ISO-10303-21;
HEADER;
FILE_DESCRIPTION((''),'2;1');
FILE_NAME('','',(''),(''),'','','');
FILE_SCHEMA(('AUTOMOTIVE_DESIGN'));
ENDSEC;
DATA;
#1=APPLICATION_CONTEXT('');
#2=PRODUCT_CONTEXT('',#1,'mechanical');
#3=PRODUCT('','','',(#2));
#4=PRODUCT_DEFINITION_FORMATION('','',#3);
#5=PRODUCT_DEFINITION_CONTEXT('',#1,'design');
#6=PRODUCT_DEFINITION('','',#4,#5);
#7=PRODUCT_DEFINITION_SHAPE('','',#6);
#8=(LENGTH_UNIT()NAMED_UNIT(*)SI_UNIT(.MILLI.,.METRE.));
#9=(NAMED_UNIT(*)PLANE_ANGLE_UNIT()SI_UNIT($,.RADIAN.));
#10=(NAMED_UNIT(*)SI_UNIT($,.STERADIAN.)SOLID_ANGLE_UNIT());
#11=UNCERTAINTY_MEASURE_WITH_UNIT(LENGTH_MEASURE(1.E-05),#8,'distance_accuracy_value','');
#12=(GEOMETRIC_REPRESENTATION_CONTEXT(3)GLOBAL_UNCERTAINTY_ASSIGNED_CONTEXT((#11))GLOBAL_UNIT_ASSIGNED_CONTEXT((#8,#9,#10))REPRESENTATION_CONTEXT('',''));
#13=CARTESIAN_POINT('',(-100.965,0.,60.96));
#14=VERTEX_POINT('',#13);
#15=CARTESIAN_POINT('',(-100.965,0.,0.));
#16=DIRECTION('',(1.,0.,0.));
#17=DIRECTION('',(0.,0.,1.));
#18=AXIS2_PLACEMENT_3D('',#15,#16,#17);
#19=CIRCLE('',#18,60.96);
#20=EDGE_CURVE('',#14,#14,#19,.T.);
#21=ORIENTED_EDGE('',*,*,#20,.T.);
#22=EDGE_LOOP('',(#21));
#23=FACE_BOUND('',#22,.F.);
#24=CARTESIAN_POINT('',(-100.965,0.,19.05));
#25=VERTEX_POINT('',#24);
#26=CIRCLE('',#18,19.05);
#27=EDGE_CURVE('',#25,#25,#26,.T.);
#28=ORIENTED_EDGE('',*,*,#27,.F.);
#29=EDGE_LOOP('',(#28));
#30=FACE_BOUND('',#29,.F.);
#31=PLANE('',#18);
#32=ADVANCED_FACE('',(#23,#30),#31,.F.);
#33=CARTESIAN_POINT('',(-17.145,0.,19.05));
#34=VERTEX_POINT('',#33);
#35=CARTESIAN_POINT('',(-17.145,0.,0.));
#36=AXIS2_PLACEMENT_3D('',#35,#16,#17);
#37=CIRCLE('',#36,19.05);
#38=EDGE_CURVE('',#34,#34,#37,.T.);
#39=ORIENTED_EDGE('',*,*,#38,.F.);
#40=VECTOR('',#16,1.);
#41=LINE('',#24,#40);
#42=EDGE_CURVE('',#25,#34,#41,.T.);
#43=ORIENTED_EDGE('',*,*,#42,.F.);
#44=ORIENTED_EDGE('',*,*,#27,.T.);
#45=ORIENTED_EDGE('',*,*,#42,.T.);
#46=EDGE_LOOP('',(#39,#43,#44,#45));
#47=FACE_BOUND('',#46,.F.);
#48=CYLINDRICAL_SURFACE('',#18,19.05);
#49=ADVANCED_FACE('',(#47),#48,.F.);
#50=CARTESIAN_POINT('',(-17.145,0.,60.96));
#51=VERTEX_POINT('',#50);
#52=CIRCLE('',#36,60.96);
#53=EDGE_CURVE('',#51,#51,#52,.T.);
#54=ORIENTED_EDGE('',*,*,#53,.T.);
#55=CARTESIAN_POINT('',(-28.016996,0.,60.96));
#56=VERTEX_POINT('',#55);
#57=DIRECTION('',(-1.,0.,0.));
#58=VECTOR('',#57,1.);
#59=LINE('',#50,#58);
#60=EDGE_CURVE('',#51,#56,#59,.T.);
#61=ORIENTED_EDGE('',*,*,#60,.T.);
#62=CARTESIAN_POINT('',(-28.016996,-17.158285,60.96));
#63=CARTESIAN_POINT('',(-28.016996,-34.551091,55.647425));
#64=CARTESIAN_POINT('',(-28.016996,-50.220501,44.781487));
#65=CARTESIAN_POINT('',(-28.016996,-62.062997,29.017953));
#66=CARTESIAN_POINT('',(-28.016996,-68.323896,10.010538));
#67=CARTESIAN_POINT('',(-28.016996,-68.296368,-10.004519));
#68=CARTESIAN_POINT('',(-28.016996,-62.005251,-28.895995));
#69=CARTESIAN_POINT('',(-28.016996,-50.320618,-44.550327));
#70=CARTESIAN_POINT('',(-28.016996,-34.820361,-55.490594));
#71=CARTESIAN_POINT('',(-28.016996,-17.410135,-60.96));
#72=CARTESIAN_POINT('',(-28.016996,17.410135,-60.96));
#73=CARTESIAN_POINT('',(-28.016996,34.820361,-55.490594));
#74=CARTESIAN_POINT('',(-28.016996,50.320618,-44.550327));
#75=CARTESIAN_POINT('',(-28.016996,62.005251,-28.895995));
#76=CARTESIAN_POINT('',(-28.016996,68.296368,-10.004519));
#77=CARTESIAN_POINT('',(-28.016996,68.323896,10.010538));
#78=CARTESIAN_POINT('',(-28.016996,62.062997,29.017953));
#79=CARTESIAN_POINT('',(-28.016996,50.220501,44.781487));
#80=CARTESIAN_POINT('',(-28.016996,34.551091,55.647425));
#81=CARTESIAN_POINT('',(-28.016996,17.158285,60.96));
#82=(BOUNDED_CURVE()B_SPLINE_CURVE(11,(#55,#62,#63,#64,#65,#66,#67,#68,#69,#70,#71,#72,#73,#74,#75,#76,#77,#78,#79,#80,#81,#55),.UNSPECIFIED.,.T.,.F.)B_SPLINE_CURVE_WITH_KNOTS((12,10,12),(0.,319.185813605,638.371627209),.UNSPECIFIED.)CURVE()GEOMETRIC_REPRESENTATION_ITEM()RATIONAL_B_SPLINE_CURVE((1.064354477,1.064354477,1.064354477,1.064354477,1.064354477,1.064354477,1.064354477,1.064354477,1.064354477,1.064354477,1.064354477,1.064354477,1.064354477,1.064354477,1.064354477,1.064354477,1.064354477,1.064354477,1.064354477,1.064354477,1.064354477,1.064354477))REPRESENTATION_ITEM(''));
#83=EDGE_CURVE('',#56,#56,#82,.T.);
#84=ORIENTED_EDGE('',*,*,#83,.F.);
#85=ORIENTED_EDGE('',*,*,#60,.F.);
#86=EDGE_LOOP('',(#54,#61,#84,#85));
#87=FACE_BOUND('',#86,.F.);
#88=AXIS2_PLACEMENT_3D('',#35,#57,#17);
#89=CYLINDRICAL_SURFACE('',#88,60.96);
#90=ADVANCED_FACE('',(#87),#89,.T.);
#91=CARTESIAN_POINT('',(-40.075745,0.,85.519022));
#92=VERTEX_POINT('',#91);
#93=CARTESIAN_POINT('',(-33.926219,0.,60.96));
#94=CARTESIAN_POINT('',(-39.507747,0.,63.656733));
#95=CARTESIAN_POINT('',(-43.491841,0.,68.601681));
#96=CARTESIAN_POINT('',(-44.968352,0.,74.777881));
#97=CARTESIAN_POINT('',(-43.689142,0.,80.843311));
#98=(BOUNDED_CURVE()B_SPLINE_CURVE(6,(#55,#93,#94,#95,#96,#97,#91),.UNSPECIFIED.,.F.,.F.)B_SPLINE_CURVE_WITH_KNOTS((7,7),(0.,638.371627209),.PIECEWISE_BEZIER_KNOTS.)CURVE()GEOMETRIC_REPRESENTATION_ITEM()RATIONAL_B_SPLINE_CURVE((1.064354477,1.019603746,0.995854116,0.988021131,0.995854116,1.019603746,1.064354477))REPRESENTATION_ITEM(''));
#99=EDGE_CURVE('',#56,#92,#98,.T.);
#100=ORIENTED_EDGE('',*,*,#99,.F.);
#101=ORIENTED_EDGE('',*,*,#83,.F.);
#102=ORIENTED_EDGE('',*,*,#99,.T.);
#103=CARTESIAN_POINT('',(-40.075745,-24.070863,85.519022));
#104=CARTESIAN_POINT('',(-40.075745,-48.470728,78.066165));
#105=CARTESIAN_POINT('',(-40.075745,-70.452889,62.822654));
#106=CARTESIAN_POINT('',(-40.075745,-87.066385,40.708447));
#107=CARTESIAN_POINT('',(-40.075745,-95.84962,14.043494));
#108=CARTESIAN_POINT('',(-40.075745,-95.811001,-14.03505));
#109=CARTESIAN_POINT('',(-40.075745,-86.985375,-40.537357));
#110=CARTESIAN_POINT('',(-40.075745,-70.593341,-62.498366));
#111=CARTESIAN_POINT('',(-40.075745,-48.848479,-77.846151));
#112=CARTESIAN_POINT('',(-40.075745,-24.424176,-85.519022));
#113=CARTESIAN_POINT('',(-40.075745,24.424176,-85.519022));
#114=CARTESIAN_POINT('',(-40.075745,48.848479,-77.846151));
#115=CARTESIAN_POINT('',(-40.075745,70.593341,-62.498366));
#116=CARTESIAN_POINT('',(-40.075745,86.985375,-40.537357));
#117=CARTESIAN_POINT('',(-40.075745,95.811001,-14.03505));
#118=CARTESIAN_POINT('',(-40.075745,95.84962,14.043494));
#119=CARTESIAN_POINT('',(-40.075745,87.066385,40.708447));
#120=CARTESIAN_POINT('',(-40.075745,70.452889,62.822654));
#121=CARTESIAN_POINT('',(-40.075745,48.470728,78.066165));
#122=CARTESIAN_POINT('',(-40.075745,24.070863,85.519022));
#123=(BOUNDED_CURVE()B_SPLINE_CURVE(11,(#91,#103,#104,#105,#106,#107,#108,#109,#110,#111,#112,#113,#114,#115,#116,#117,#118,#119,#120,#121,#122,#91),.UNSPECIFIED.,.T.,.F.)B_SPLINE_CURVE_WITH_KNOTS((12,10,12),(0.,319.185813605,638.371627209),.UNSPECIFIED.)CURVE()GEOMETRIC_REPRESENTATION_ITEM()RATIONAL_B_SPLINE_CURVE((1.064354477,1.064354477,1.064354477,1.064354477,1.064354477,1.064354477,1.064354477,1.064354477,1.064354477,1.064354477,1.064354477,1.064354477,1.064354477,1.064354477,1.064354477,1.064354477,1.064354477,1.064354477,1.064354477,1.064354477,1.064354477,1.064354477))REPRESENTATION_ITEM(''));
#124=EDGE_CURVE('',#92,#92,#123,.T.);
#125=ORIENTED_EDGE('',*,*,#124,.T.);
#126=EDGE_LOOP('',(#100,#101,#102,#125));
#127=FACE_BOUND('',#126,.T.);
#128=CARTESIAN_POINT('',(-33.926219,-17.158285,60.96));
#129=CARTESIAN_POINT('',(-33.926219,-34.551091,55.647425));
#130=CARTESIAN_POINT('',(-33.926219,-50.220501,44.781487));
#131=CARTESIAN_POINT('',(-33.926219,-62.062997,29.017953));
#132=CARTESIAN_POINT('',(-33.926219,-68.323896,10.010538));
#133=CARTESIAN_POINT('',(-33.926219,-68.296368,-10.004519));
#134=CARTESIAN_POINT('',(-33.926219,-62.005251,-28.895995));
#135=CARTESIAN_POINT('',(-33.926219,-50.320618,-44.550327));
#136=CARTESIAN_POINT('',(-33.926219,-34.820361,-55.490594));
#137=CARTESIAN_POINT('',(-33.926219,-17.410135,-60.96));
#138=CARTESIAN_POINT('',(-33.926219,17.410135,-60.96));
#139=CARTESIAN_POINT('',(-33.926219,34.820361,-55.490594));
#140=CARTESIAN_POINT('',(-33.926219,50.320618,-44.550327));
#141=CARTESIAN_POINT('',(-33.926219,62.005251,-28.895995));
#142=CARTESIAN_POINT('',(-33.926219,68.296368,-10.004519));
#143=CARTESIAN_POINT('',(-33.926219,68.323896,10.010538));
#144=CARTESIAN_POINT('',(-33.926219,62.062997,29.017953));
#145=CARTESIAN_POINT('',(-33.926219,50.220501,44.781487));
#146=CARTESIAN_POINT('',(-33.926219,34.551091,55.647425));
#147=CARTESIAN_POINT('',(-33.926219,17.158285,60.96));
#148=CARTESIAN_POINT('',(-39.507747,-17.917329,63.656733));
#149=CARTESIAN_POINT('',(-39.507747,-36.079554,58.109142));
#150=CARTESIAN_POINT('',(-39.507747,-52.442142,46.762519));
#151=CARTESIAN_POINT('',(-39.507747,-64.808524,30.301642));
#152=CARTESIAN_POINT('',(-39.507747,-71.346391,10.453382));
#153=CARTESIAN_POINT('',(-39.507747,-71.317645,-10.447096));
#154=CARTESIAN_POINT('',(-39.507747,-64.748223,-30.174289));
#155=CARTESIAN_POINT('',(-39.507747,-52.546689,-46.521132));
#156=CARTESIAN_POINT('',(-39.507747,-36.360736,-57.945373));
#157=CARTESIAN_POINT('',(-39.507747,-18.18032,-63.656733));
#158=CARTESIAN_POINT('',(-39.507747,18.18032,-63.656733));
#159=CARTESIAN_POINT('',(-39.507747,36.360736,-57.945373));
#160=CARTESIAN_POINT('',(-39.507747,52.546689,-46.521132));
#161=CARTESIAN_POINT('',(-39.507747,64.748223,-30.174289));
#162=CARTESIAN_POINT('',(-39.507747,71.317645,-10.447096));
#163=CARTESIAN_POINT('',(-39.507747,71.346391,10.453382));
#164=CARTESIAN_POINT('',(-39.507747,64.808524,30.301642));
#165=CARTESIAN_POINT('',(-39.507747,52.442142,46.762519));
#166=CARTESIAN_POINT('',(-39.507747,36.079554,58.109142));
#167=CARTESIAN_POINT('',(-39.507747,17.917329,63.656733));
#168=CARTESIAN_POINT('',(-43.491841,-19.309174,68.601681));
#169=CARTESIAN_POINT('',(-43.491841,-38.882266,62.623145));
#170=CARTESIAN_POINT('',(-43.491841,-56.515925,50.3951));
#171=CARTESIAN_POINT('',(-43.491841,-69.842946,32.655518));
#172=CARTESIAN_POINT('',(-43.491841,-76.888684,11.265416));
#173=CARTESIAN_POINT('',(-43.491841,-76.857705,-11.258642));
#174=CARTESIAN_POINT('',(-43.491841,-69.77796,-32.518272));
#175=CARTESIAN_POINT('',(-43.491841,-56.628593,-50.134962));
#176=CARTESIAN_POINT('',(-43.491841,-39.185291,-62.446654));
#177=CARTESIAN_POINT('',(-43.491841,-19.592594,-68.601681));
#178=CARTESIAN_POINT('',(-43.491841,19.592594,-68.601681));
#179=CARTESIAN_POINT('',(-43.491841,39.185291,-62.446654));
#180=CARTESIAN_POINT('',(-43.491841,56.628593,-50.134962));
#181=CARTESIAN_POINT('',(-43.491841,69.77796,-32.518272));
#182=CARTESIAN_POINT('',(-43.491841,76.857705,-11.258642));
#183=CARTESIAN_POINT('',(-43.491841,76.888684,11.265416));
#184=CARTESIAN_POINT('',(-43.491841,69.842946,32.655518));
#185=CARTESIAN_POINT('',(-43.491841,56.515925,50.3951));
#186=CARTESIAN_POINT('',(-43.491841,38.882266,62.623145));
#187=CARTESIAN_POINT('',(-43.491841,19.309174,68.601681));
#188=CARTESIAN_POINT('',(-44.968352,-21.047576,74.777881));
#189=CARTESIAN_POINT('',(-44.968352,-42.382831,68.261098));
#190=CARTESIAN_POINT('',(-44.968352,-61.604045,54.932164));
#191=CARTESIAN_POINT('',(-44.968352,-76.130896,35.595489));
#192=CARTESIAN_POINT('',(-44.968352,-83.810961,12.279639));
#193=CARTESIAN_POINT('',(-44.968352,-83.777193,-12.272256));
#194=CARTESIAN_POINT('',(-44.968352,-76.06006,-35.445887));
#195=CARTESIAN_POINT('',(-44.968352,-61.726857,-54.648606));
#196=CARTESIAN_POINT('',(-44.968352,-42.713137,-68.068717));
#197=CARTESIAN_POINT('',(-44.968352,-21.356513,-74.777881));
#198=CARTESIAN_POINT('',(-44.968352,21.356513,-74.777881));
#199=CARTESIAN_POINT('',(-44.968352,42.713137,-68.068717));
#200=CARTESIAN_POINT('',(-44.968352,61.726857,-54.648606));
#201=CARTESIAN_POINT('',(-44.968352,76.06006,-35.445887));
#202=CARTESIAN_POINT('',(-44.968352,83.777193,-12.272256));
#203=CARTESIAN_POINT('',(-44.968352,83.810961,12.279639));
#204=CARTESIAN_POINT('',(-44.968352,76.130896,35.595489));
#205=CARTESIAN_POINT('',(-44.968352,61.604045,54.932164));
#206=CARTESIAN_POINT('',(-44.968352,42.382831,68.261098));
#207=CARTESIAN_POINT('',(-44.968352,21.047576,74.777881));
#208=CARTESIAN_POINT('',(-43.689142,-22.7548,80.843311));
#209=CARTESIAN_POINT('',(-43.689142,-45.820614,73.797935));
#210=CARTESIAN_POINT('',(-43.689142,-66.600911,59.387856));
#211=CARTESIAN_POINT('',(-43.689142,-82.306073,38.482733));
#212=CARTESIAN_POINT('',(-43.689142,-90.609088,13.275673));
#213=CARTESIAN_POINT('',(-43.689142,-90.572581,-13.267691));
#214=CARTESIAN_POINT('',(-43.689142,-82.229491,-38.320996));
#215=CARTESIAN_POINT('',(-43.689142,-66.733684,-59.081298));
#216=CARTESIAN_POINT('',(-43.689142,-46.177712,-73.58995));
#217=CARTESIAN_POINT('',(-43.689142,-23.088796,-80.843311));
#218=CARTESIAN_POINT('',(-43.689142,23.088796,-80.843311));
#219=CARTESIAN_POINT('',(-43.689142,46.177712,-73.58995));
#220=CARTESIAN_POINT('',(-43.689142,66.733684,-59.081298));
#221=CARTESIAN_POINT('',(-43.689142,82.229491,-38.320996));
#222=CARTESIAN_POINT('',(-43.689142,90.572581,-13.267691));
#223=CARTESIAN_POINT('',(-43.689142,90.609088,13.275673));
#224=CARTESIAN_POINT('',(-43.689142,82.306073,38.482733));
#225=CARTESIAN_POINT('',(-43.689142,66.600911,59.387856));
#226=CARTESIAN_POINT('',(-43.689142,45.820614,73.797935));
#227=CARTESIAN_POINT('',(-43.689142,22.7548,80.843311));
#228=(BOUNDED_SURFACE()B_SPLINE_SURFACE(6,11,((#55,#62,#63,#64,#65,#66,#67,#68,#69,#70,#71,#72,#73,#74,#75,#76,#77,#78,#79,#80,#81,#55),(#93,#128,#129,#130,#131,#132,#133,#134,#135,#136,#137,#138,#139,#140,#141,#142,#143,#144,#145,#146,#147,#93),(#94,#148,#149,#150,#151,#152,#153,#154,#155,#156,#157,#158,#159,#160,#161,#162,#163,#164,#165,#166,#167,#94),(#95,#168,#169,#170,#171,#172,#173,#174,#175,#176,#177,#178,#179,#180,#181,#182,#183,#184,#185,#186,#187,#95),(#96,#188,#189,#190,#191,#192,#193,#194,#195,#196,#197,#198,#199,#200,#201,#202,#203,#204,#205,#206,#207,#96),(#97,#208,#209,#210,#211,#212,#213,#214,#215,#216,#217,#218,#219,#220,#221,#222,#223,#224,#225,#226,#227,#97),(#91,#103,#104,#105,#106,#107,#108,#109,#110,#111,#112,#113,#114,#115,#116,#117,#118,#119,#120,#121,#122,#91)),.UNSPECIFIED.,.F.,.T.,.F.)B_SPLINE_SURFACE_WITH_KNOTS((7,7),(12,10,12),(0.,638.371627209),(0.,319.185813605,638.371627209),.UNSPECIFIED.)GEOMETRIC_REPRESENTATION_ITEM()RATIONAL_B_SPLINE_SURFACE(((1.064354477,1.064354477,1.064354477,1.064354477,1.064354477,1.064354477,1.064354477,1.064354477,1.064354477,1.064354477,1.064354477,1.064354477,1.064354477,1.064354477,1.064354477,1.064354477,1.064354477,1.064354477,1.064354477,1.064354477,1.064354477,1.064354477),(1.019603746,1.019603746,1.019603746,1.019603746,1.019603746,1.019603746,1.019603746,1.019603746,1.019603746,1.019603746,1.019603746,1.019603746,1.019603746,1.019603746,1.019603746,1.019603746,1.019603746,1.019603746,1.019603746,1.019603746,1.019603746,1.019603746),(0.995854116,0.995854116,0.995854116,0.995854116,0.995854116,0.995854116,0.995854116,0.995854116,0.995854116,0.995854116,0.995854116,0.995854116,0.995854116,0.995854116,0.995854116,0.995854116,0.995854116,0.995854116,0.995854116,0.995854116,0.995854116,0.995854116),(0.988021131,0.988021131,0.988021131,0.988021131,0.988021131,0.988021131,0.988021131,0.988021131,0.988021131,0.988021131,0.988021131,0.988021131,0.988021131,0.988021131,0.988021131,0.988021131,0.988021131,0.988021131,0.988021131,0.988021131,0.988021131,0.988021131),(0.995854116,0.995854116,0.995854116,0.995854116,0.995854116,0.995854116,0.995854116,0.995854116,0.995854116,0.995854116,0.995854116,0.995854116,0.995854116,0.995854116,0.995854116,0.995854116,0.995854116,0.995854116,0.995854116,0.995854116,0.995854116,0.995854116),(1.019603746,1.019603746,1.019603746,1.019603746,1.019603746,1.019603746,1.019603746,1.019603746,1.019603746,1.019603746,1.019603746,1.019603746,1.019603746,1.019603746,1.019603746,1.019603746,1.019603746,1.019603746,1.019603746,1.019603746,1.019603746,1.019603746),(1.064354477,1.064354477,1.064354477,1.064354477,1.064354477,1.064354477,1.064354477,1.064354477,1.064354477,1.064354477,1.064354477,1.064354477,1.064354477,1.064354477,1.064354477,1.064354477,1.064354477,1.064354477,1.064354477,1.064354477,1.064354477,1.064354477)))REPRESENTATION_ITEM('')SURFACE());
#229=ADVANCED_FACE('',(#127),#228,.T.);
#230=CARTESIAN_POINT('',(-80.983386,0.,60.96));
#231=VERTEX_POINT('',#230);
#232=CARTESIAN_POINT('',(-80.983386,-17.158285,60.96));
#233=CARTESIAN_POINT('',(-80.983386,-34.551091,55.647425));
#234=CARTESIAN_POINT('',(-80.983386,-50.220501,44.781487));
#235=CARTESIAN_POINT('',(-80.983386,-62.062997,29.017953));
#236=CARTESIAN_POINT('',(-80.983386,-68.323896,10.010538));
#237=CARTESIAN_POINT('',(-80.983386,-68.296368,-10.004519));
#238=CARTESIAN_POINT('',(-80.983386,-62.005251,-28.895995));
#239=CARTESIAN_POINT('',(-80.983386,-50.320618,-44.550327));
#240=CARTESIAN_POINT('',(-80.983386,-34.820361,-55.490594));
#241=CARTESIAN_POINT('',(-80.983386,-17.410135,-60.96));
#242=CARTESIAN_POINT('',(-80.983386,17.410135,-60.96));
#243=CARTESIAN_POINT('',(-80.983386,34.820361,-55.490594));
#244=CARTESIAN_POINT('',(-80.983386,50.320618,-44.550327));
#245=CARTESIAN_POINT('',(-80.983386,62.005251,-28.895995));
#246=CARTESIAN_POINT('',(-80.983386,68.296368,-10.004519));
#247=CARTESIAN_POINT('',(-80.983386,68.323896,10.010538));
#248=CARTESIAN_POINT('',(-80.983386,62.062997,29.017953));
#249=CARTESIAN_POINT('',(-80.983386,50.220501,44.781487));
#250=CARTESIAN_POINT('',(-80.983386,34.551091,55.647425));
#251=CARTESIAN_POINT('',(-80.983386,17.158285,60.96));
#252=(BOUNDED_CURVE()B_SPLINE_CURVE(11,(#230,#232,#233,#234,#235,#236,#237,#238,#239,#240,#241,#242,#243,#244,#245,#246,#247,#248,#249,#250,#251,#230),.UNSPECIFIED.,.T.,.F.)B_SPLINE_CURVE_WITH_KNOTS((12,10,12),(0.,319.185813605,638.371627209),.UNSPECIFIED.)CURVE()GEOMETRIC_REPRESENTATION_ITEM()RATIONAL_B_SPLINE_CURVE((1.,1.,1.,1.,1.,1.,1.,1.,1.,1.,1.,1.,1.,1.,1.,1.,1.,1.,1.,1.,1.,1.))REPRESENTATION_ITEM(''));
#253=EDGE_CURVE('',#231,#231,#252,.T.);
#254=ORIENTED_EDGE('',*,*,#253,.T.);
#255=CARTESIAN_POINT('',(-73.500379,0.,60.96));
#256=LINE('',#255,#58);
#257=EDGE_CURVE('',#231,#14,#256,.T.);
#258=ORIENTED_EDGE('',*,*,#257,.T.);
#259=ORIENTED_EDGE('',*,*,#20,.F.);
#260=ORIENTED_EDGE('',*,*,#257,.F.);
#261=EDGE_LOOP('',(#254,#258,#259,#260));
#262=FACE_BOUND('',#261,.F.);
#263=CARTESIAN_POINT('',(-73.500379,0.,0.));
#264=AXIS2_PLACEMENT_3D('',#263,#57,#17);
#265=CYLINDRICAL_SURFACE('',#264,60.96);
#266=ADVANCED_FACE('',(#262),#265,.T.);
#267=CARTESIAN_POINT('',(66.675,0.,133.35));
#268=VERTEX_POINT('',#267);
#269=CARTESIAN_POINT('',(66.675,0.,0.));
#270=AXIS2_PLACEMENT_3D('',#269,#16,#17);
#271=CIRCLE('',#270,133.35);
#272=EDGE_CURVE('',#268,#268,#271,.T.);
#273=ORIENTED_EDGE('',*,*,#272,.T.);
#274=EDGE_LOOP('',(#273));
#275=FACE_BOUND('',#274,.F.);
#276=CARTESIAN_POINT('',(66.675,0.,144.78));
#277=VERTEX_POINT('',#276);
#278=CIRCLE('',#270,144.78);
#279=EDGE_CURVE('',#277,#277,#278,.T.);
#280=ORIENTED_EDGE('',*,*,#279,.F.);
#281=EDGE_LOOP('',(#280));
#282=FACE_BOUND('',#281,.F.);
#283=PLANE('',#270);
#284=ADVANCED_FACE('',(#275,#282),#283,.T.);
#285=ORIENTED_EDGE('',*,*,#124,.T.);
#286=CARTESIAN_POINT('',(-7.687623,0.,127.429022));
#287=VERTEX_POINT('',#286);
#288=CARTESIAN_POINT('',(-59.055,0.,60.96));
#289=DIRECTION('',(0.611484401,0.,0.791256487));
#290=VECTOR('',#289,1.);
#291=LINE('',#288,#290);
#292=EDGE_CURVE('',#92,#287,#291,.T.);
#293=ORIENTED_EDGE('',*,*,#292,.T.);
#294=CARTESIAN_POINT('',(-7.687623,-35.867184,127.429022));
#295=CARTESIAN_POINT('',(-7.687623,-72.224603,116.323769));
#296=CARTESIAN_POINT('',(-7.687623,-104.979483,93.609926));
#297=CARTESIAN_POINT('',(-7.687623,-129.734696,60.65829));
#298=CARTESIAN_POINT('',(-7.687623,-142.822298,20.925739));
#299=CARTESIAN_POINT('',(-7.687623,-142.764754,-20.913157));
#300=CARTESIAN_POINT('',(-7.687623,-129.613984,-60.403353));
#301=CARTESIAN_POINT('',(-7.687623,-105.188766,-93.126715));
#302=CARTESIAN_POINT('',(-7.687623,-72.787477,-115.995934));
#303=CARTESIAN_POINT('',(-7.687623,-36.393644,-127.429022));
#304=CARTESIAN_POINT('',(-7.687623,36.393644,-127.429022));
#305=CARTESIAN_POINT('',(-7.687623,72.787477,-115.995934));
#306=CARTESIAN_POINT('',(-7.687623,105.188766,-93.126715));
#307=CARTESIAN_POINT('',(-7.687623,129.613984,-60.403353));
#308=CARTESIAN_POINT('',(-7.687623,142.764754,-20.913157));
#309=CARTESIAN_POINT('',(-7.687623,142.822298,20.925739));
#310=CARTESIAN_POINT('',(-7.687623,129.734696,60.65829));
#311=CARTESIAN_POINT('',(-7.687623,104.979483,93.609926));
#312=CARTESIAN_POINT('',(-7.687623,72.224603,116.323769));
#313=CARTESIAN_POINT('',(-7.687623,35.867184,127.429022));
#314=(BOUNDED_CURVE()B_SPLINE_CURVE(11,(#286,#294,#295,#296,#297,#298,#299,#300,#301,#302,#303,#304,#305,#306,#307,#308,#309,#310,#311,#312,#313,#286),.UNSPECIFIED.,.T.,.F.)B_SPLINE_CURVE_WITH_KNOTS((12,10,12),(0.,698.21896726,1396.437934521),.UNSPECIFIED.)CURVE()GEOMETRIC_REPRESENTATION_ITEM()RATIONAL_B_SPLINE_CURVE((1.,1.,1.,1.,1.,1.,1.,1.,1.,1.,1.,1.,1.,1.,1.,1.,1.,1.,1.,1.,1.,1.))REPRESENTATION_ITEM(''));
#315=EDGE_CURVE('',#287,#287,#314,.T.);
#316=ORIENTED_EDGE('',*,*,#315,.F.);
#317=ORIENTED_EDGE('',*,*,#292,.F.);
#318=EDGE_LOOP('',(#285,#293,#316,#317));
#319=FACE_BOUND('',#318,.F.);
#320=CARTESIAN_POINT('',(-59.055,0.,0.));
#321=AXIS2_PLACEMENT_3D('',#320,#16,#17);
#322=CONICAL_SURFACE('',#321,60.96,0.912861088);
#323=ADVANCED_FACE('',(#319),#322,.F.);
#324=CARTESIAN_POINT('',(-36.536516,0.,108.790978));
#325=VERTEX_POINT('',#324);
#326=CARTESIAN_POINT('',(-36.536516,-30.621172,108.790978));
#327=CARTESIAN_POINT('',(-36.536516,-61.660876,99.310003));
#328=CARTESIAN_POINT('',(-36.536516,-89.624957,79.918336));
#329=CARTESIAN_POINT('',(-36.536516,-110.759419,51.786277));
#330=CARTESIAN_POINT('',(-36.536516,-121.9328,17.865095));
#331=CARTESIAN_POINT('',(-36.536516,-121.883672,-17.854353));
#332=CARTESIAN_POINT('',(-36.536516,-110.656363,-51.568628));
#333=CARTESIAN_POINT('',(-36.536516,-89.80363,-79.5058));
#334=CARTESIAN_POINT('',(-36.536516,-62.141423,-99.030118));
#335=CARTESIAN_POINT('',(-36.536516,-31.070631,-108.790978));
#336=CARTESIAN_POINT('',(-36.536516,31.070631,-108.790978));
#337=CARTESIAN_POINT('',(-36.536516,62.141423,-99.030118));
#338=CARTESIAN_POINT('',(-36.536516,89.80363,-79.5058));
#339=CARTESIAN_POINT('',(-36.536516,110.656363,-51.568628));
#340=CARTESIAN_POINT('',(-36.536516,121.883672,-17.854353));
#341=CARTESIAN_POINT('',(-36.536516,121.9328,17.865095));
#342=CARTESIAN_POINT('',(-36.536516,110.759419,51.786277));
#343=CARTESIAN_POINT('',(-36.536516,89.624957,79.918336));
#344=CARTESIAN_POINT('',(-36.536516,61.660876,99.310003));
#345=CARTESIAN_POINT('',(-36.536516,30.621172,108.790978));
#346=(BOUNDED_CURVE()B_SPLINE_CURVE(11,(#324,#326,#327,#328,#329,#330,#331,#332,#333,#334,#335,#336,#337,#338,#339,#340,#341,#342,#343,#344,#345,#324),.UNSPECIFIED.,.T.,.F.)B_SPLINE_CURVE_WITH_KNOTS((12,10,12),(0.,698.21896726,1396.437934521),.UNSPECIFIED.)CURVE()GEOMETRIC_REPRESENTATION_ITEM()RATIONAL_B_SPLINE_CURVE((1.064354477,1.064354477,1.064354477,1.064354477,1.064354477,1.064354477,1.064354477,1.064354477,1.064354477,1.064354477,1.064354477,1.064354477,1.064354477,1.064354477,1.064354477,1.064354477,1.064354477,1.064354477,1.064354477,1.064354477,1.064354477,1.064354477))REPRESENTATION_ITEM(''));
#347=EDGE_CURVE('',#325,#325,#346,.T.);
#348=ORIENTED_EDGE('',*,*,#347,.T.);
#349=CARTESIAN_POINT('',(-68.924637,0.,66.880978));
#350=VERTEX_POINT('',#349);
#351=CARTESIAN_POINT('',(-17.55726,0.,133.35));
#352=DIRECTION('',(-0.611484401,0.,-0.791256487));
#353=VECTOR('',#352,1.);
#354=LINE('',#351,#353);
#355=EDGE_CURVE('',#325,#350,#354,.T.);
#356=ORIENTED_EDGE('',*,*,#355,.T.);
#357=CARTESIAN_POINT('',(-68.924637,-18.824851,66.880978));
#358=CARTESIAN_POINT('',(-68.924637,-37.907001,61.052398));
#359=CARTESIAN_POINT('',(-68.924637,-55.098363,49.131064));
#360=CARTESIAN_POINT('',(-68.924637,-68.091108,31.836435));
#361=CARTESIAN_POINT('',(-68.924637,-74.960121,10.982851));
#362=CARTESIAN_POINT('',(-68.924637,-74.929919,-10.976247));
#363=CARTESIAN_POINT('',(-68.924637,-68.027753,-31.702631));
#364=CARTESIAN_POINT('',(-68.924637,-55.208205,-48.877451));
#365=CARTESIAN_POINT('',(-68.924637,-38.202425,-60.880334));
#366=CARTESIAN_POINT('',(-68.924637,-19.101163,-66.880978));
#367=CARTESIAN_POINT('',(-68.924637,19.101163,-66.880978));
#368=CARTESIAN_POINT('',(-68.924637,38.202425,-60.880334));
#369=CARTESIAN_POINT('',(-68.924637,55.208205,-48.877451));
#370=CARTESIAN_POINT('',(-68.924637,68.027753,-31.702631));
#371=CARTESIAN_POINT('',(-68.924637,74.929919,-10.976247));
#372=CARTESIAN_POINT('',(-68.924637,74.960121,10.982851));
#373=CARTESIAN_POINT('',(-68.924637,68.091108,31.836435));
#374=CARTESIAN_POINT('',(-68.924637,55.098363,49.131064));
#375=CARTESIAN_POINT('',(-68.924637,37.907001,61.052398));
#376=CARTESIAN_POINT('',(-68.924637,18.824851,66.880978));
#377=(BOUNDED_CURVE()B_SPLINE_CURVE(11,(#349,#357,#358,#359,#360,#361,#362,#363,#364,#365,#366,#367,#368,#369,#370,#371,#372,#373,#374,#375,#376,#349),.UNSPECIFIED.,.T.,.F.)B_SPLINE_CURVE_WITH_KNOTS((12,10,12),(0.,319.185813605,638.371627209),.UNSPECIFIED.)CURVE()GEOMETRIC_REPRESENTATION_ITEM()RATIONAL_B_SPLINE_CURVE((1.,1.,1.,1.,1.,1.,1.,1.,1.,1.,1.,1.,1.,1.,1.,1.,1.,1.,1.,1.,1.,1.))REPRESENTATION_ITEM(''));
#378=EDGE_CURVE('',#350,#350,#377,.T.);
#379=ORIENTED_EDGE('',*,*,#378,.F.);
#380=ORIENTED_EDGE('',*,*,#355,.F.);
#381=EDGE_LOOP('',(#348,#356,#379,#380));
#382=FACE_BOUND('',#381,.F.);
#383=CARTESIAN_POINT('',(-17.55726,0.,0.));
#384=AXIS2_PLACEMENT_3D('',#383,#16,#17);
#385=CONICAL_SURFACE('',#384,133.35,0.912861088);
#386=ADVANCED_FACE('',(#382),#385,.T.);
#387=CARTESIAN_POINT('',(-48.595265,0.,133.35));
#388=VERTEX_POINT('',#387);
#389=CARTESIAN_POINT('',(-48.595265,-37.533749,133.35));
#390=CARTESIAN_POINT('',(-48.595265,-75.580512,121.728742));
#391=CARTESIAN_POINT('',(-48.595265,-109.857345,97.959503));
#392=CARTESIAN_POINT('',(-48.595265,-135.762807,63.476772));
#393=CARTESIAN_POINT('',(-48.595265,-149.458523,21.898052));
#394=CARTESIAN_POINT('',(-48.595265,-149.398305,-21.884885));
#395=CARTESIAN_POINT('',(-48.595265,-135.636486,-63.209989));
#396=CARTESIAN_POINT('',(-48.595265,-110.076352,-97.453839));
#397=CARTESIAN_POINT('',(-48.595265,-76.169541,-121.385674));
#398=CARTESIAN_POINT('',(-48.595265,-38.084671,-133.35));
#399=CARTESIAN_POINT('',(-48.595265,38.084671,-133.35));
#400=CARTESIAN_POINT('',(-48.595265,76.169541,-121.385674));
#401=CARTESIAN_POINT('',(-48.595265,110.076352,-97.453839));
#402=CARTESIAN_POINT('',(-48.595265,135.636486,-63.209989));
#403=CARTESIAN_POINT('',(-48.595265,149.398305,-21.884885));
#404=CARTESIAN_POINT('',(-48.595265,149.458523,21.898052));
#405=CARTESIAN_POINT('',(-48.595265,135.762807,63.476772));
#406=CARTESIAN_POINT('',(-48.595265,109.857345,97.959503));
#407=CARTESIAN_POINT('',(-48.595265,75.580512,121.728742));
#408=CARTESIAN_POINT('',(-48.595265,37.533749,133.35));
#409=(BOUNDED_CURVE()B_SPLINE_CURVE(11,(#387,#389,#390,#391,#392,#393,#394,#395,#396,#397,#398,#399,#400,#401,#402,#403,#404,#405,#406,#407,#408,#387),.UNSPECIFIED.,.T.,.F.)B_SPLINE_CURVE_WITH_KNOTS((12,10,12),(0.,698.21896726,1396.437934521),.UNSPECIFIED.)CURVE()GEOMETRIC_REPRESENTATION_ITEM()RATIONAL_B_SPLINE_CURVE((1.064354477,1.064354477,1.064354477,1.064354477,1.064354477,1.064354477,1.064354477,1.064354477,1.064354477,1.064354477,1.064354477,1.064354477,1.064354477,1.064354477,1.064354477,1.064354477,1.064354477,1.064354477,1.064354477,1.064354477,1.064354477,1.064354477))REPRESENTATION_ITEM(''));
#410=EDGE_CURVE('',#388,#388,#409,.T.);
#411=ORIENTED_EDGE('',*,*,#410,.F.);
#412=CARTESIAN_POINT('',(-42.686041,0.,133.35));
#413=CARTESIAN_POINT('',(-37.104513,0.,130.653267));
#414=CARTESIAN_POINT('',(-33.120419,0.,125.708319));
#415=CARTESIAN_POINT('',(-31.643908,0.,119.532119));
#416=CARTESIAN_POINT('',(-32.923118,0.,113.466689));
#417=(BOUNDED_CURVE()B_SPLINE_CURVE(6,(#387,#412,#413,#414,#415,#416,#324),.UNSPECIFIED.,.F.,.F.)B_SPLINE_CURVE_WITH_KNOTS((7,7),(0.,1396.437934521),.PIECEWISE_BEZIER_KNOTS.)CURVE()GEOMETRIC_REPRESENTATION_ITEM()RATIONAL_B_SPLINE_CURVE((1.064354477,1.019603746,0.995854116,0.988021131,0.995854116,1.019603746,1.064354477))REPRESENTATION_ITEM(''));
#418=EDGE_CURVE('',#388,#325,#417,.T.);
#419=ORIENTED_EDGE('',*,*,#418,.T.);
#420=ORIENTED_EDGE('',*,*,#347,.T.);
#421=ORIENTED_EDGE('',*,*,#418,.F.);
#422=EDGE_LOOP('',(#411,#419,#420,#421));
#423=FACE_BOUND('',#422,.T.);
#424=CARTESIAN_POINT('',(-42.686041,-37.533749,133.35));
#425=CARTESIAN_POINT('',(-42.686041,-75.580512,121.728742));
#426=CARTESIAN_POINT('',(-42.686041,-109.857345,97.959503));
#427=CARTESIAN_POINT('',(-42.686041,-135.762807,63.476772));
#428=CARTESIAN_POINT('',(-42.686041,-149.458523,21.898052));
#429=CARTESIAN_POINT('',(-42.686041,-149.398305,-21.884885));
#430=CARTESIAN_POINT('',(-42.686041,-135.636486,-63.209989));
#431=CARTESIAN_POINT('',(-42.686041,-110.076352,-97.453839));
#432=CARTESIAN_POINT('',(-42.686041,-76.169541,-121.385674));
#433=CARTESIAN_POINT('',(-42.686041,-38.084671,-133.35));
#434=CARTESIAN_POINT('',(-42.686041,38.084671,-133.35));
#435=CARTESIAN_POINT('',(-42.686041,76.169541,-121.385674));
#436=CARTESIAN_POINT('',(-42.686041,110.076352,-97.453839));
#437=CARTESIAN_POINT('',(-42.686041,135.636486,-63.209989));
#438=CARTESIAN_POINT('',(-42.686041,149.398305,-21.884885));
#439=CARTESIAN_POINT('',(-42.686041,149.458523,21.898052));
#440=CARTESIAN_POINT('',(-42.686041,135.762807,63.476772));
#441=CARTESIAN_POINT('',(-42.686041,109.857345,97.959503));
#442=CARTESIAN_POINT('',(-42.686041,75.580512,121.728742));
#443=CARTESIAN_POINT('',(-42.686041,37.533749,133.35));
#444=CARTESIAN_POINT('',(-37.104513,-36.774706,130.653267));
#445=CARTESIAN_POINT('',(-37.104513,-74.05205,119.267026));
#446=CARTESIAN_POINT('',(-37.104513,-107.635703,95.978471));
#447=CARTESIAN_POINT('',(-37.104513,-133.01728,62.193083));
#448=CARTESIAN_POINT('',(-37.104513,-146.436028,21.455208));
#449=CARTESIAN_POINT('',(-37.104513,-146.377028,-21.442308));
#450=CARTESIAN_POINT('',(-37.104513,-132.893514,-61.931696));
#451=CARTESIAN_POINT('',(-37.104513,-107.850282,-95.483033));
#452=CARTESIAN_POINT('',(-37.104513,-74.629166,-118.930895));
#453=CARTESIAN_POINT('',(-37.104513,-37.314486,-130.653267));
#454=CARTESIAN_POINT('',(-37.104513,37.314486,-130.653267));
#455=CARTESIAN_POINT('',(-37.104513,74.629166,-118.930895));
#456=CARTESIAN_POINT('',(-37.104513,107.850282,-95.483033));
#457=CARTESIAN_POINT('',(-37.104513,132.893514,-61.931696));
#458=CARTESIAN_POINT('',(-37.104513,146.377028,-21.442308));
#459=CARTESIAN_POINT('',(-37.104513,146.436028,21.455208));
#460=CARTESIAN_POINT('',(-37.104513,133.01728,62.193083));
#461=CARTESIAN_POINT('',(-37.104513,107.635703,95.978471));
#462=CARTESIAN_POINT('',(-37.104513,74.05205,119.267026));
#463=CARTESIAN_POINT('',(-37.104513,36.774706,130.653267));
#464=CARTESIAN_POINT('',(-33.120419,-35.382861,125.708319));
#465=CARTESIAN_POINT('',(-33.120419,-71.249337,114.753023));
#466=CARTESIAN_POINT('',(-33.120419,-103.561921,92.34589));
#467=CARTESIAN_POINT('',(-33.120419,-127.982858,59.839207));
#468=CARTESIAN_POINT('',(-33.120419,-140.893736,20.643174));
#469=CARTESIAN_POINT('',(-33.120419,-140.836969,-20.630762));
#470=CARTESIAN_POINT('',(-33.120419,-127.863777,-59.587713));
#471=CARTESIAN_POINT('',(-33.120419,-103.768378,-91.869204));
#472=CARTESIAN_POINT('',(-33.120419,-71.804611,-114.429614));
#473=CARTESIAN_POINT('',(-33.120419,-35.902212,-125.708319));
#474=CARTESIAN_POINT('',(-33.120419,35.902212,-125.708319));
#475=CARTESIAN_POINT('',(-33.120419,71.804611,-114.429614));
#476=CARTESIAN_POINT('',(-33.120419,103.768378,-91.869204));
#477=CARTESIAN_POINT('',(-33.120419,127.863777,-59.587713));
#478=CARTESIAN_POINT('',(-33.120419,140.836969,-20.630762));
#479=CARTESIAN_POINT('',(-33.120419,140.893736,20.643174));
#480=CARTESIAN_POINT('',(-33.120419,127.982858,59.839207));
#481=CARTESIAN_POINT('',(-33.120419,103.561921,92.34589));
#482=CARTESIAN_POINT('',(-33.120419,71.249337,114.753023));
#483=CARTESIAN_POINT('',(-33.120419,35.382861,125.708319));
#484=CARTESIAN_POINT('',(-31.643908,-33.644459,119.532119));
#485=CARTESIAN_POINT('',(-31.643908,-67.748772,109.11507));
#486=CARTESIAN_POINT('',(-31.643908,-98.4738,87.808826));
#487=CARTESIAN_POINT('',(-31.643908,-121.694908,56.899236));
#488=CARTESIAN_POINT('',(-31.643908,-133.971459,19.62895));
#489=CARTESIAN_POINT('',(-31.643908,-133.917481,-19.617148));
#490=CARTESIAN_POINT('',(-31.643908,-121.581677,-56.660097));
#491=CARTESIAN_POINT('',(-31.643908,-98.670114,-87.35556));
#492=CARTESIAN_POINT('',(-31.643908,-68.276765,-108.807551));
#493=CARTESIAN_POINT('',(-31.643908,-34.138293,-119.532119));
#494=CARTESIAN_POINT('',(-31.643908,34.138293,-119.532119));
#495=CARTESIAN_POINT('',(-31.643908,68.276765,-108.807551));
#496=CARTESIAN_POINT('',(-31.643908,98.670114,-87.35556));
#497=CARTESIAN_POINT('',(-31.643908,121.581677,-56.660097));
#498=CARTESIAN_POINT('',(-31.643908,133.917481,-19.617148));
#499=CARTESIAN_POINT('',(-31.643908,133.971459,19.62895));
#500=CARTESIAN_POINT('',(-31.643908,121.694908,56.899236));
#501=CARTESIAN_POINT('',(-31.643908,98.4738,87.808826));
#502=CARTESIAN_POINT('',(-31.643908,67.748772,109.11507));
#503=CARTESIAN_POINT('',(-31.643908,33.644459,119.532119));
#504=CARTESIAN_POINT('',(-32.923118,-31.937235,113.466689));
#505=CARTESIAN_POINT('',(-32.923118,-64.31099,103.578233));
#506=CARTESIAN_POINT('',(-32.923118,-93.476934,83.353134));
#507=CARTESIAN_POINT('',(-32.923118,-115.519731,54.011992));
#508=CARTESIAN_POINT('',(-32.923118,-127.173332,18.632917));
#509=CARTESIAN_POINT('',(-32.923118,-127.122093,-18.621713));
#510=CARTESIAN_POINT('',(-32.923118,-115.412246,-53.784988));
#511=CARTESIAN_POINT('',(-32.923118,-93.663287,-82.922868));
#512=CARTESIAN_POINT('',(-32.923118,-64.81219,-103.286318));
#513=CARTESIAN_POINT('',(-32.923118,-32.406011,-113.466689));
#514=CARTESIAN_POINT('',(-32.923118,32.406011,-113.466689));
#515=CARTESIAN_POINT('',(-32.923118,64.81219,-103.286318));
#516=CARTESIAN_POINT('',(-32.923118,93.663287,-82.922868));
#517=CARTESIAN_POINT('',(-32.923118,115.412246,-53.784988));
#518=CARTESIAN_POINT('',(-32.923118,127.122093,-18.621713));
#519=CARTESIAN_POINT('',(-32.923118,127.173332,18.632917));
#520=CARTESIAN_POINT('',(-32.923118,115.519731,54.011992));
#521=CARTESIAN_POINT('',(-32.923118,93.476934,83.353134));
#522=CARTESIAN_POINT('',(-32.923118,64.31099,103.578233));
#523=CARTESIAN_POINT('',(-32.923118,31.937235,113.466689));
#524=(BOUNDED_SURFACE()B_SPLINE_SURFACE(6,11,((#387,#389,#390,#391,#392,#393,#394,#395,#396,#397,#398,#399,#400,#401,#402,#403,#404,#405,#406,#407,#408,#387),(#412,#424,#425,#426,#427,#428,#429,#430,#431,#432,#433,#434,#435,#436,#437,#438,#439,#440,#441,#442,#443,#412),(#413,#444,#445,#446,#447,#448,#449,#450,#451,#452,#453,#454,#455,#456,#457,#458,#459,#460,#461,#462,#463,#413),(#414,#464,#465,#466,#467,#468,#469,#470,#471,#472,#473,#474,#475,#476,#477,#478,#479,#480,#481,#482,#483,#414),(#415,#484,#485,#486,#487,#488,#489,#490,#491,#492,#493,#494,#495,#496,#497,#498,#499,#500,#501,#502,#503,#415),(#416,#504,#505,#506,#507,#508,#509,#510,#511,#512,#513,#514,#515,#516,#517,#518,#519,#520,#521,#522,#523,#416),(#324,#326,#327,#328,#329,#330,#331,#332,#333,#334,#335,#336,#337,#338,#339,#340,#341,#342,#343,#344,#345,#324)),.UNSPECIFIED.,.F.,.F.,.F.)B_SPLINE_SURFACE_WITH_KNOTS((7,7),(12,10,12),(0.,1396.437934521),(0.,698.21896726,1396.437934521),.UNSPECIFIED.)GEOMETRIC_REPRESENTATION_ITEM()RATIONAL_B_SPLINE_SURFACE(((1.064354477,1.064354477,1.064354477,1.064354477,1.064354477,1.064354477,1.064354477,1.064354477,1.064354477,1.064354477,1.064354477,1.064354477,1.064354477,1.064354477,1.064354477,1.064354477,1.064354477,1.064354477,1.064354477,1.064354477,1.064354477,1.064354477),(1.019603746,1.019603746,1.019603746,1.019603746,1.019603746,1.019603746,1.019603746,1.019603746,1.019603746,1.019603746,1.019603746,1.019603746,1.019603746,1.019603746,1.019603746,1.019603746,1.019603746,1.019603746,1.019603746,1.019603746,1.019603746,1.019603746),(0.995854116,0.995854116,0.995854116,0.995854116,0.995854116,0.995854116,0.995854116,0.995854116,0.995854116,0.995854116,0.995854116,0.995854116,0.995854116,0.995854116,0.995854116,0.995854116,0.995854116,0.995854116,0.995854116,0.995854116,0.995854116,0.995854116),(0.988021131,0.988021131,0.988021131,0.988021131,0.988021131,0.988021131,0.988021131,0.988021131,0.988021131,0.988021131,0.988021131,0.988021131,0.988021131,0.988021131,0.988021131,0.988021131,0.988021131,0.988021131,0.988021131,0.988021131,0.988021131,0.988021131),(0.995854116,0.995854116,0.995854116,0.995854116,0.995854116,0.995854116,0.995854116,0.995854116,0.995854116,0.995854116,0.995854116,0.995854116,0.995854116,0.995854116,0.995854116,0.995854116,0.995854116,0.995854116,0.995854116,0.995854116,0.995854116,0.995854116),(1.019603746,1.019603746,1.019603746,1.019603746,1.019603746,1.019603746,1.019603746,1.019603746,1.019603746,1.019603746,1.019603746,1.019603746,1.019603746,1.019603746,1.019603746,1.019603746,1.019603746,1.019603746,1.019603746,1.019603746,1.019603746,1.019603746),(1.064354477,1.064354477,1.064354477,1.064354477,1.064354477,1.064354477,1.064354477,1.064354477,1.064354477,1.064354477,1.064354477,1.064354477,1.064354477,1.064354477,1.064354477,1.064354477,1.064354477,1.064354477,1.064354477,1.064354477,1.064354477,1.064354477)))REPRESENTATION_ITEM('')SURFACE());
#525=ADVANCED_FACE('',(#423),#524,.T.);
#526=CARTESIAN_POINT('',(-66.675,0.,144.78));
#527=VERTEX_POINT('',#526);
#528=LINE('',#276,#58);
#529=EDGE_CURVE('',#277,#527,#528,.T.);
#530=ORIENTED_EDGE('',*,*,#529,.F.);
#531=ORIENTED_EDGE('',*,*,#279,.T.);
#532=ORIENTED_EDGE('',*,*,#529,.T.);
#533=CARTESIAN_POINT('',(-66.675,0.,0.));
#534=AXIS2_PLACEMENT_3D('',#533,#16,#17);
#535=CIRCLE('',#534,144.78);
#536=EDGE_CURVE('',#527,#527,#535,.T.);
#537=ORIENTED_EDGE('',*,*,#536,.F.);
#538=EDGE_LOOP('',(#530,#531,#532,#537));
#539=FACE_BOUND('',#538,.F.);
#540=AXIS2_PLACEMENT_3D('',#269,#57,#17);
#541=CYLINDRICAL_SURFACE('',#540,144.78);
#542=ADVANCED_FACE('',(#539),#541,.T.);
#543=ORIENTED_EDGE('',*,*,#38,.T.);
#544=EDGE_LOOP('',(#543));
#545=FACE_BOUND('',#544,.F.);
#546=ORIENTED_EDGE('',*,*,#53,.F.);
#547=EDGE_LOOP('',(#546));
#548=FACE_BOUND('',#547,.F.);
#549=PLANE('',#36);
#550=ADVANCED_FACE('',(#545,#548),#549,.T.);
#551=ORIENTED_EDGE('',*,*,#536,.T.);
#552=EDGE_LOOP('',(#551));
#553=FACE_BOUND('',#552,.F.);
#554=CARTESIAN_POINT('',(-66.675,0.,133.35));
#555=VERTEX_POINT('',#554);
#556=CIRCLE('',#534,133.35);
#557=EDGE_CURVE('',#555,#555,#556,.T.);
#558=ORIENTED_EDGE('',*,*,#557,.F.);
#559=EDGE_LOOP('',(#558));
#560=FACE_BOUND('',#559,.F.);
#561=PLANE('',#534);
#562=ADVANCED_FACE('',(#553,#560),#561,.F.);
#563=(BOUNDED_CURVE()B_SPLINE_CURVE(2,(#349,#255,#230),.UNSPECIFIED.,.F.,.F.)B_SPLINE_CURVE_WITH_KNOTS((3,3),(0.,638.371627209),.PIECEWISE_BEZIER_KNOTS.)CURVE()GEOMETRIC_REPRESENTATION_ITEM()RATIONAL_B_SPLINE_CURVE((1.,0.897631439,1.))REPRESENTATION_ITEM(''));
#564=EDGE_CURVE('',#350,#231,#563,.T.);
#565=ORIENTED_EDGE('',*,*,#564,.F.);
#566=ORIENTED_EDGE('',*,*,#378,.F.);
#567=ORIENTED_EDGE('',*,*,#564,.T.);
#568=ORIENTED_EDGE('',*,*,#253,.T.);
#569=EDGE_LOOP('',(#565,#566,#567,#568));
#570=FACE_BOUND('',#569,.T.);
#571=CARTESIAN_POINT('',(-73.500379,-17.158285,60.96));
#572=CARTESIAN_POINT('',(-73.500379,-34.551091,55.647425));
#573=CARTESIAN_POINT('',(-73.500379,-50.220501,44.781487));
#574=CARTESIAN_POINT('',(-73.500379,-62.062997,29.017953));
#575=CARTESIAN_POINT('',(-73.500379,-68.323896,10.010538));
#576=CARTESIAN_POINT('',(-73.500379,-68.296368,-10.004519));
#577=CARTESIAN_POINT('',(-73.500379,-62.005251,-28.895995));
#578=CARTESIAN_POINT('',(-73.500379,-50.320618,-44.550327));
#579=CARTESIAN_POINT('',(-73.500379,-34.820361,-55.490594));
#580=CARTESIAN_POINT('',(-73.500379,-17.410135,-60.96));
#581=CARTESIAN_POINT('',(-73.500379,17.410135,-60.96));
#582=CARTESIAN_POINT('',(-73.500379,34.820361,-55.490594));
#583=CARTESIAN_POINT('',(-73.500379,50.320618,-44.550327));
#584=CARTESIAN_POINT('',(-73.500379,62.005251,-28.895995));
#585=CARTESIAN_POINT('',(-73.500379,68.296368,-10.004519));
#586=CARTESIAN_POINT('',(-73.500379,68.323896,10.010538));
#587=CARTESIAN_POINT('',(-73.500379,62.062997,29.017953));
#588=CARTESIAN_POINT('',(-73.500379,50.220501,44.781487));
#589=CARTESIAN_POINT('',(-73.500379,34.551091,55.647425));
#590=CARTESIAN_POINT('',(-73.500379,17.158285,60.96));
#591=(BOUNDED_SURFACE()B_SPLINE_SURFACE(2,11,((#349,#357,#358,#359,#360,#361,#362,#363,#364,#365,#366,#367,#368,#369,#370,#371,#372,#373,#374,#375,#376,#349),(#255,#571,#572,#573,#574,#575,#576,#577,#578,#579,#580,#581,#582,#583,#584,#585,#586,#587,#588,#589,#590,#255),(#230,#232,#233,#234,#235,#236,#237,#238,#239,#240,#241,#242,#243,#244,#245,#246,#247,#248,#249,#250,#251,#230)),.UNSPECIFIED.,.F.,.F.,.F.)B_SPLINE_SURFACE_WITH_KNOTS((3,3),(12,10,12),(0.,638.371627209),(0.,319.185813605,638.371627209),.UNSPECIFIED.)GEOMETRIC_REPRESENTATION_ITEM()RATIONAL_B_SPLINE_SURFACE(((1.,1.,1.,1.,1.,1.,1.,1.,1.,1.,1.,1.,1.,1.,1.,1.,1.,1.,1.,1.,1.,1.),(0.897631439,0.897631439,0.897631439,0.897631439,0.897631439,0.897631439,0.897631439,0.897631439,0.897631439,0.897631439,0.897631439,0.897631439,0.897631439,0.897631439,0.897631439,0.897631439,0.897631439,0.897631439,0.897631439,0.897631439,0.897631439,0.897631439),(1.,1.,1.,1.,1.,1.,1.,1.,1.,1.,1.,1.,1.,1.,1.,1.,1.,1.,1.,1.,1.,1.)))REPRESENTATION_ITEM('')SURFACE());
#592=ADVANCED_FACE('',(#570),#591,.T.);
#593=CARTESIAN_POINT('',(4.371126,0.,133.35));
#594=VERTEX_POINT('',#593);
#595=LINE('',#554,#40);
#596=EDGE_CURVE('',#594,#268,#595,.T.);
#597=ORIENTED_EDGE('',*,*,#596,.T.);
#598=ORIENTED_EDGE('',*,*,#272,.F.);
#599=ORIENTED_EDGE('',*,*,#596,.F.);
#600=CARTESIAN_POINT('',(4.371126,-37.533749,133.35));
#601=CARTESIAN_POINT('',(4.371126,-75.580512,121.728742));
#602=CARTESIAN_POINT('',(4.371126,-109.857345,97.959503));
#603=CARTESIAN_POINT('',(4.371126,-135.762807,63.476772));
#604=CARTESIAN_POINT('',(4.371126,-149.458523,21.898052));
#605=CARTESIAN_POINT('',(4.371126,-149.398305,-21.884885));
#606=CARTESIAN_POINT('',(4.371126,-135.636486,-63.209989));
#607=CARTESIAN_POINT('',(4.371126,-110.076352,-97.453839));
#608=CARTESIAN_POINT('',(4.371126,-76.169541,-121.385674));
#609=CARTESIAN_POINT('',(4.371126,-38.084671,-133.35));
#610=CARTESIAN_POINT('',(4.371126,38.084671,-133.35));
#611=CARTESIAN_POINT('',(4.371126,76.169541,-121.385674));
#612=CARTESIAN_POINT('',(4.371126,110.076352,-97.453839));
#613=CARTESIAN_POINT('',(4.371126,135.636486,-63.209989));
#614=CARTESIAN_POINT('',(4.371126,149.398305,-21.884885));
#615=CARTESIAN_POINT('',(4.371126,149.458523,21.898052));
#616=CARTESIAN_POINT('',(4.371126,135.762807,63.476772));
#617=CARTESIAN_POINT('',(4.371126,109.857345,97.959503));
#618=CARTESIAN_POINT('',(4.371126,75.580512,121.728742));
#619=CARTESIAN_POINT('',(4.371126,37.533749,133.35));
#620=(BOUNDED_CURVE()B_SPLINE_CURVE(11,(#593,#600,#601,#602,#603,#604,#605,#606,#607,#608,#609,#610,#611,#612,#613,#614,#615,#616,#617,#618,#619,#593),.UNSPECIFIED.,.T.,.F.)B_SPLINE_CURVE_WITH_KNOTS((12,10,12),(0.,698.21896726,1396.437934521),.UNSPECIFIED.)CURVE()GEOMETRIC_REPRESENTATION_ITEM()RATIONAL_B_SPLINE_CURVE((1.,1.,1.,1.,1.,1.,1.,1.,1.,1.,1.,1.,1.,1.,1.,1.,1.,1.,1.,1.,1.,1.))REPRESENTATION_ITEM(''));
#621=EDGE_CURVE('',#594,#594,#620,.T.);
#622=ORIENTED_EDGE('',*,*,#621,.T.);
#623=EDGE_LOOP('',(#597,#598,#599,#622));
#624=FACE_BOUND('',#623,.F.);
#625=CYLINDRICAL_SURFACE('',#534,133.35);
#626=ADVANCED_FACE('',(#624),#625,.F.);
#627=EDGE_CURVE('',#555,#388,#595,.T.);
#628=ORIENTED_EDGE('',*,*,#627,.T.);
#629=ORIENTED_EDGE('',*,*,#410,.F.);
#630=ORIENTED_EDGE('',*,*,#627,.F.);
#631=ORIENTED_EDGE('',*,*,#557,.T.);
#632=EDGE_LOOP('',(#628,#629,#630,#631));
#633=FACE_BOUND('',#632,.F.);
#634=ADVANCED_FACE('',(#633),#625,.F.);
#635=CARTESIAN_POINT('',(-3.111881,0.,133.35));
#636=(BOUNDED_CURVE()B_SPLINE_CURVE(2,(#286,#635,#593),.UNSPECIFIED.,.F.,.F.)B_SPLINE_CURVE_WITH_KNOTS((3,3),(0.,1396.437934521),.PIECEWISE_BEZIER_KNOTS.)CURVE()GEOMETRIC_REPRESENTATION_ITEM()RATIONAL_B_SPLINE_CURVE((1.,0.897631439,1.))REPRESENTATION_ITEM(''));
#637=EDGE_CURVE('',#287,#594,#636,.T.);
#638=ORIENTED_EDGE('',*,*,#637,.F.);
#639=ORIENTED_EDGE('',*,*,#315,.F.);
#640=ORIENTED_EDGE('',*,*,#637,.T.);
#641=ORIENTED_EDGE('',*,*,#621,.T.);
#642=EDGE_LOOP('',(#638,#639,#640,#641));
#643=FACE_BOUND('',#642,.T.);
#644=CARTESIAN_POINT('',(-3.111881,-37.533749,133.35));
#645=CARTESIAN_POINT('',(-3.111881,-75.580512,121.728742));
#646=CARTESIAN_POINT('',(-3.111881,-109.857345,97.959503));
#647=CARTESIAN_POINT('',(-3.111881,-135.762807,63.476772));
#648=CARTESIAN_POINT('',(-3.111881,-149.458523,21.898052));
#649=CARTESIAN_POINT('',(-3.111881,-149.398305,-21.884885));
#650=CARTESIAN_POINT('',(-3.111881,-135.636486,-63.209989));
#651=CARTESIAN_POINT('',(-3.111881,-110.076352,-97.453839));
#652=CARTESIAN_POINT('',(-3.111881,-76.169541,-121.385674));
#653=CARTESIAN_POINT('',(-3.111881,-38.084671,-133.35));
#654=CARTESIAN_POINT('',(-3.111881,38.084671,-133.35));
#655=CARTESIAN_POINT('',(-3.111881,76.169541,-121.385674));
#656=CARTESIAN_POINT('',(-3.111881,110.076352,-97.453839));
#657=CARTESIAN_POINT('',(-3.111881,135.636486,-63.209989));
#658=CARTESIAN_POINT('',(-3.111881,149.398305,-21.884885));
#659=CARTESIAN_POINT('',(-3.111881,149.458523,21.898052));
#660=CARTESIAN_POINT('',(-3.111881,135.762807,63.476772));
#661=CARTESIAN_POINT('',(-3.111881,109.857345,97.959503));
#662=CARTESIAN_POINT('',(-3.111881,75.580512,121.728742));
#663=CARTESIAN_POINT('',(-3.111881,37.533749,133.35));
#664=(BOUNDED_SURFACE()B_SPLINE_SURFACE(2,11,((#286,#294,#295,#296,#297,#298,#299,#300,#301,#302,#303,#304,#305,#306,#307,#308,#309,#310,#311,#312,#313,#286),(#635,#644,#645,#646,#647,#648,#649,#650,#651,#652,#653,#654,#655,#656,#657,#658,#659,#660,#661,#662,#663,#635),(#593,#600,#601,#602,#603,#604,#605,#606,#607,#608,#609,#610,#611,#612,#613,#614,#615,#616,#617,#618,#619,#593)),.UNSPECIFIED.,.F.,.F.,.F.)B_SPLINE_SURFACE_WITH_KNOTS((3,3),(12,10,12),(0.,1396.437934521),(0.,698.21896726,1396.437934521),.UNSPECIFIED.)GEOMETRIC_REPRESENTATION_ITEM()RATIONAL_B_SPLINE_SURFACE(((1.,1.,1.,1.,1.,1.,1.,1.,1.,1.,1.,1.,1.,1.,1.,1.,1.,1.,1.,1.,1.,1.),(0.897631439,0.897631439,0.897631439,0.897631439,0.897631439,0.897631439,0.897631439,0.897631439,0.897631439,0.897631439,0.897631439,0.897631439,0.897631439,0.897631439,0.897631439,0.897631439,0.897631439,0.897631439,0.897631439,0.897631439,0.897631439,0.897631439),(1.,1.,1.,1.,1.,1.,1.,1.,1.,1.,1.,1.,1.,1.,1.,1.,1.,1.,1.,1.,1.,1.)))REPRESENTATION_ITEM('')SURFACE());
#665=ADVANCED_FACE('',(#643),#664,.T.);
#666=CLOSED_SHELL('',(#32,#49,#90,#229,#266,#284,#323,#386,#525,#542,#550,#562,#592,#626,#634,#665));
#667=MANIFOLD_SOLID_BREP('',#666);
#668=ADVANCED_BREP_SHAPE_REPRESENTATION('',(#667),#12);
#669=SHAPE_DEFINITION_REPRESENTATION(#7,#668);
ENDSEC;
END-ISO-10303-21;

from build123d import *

# Parameters (mm, degrees)
F2_R     = 25.4
F3_SCALE = 0.6


with BuildPart() as f1:
    # F0 (on Front) → F1 (revolve)
    with BuildSketch(Plane.XZ):
        Polygon((111.125, 222.25), (111.125, 241.3), (-111.125, 241.3), (-111.125, 222.25), (-29.2621003771, 222.25), (-5.1864683628, 222.25), align=None)
        Polygon((-98.425, 101.6), (-5.1864683628, 222.25), (-29.2621003771, 222.25), (-122.5006320143, 101.6), align=None)
        Polygon((-28.575, 101.6), (-98.425, 101.6), (-122.5006320143, 101.6), (-168.275, 101.6), (-168.275, 31.75), (-28.575, 31.75), align=None)
    revolve(axis=Axis((-5.1864683628, 0, 0), (1, 0, 0)))

    # F2
    f2_edges = [f1.edges().sort_by_distance(p)[0] for p in [
        (-98.425, 0, -101.6),
        (-5.186468, 0, -222.25),
        (-51.805734, 0, 161.925),
        (-29.2621, 0, -222.25),
        (-122.500632, 0, -101.6),
        (-75.881366, 0, 161.925),
    ]]
    fillet(f2_edges, radius=F2_R)


with BuildPart() as f1_1:
    # F3: moved
    add(f1.part.scale(F3_SCALE))


solid = f1_1.part
